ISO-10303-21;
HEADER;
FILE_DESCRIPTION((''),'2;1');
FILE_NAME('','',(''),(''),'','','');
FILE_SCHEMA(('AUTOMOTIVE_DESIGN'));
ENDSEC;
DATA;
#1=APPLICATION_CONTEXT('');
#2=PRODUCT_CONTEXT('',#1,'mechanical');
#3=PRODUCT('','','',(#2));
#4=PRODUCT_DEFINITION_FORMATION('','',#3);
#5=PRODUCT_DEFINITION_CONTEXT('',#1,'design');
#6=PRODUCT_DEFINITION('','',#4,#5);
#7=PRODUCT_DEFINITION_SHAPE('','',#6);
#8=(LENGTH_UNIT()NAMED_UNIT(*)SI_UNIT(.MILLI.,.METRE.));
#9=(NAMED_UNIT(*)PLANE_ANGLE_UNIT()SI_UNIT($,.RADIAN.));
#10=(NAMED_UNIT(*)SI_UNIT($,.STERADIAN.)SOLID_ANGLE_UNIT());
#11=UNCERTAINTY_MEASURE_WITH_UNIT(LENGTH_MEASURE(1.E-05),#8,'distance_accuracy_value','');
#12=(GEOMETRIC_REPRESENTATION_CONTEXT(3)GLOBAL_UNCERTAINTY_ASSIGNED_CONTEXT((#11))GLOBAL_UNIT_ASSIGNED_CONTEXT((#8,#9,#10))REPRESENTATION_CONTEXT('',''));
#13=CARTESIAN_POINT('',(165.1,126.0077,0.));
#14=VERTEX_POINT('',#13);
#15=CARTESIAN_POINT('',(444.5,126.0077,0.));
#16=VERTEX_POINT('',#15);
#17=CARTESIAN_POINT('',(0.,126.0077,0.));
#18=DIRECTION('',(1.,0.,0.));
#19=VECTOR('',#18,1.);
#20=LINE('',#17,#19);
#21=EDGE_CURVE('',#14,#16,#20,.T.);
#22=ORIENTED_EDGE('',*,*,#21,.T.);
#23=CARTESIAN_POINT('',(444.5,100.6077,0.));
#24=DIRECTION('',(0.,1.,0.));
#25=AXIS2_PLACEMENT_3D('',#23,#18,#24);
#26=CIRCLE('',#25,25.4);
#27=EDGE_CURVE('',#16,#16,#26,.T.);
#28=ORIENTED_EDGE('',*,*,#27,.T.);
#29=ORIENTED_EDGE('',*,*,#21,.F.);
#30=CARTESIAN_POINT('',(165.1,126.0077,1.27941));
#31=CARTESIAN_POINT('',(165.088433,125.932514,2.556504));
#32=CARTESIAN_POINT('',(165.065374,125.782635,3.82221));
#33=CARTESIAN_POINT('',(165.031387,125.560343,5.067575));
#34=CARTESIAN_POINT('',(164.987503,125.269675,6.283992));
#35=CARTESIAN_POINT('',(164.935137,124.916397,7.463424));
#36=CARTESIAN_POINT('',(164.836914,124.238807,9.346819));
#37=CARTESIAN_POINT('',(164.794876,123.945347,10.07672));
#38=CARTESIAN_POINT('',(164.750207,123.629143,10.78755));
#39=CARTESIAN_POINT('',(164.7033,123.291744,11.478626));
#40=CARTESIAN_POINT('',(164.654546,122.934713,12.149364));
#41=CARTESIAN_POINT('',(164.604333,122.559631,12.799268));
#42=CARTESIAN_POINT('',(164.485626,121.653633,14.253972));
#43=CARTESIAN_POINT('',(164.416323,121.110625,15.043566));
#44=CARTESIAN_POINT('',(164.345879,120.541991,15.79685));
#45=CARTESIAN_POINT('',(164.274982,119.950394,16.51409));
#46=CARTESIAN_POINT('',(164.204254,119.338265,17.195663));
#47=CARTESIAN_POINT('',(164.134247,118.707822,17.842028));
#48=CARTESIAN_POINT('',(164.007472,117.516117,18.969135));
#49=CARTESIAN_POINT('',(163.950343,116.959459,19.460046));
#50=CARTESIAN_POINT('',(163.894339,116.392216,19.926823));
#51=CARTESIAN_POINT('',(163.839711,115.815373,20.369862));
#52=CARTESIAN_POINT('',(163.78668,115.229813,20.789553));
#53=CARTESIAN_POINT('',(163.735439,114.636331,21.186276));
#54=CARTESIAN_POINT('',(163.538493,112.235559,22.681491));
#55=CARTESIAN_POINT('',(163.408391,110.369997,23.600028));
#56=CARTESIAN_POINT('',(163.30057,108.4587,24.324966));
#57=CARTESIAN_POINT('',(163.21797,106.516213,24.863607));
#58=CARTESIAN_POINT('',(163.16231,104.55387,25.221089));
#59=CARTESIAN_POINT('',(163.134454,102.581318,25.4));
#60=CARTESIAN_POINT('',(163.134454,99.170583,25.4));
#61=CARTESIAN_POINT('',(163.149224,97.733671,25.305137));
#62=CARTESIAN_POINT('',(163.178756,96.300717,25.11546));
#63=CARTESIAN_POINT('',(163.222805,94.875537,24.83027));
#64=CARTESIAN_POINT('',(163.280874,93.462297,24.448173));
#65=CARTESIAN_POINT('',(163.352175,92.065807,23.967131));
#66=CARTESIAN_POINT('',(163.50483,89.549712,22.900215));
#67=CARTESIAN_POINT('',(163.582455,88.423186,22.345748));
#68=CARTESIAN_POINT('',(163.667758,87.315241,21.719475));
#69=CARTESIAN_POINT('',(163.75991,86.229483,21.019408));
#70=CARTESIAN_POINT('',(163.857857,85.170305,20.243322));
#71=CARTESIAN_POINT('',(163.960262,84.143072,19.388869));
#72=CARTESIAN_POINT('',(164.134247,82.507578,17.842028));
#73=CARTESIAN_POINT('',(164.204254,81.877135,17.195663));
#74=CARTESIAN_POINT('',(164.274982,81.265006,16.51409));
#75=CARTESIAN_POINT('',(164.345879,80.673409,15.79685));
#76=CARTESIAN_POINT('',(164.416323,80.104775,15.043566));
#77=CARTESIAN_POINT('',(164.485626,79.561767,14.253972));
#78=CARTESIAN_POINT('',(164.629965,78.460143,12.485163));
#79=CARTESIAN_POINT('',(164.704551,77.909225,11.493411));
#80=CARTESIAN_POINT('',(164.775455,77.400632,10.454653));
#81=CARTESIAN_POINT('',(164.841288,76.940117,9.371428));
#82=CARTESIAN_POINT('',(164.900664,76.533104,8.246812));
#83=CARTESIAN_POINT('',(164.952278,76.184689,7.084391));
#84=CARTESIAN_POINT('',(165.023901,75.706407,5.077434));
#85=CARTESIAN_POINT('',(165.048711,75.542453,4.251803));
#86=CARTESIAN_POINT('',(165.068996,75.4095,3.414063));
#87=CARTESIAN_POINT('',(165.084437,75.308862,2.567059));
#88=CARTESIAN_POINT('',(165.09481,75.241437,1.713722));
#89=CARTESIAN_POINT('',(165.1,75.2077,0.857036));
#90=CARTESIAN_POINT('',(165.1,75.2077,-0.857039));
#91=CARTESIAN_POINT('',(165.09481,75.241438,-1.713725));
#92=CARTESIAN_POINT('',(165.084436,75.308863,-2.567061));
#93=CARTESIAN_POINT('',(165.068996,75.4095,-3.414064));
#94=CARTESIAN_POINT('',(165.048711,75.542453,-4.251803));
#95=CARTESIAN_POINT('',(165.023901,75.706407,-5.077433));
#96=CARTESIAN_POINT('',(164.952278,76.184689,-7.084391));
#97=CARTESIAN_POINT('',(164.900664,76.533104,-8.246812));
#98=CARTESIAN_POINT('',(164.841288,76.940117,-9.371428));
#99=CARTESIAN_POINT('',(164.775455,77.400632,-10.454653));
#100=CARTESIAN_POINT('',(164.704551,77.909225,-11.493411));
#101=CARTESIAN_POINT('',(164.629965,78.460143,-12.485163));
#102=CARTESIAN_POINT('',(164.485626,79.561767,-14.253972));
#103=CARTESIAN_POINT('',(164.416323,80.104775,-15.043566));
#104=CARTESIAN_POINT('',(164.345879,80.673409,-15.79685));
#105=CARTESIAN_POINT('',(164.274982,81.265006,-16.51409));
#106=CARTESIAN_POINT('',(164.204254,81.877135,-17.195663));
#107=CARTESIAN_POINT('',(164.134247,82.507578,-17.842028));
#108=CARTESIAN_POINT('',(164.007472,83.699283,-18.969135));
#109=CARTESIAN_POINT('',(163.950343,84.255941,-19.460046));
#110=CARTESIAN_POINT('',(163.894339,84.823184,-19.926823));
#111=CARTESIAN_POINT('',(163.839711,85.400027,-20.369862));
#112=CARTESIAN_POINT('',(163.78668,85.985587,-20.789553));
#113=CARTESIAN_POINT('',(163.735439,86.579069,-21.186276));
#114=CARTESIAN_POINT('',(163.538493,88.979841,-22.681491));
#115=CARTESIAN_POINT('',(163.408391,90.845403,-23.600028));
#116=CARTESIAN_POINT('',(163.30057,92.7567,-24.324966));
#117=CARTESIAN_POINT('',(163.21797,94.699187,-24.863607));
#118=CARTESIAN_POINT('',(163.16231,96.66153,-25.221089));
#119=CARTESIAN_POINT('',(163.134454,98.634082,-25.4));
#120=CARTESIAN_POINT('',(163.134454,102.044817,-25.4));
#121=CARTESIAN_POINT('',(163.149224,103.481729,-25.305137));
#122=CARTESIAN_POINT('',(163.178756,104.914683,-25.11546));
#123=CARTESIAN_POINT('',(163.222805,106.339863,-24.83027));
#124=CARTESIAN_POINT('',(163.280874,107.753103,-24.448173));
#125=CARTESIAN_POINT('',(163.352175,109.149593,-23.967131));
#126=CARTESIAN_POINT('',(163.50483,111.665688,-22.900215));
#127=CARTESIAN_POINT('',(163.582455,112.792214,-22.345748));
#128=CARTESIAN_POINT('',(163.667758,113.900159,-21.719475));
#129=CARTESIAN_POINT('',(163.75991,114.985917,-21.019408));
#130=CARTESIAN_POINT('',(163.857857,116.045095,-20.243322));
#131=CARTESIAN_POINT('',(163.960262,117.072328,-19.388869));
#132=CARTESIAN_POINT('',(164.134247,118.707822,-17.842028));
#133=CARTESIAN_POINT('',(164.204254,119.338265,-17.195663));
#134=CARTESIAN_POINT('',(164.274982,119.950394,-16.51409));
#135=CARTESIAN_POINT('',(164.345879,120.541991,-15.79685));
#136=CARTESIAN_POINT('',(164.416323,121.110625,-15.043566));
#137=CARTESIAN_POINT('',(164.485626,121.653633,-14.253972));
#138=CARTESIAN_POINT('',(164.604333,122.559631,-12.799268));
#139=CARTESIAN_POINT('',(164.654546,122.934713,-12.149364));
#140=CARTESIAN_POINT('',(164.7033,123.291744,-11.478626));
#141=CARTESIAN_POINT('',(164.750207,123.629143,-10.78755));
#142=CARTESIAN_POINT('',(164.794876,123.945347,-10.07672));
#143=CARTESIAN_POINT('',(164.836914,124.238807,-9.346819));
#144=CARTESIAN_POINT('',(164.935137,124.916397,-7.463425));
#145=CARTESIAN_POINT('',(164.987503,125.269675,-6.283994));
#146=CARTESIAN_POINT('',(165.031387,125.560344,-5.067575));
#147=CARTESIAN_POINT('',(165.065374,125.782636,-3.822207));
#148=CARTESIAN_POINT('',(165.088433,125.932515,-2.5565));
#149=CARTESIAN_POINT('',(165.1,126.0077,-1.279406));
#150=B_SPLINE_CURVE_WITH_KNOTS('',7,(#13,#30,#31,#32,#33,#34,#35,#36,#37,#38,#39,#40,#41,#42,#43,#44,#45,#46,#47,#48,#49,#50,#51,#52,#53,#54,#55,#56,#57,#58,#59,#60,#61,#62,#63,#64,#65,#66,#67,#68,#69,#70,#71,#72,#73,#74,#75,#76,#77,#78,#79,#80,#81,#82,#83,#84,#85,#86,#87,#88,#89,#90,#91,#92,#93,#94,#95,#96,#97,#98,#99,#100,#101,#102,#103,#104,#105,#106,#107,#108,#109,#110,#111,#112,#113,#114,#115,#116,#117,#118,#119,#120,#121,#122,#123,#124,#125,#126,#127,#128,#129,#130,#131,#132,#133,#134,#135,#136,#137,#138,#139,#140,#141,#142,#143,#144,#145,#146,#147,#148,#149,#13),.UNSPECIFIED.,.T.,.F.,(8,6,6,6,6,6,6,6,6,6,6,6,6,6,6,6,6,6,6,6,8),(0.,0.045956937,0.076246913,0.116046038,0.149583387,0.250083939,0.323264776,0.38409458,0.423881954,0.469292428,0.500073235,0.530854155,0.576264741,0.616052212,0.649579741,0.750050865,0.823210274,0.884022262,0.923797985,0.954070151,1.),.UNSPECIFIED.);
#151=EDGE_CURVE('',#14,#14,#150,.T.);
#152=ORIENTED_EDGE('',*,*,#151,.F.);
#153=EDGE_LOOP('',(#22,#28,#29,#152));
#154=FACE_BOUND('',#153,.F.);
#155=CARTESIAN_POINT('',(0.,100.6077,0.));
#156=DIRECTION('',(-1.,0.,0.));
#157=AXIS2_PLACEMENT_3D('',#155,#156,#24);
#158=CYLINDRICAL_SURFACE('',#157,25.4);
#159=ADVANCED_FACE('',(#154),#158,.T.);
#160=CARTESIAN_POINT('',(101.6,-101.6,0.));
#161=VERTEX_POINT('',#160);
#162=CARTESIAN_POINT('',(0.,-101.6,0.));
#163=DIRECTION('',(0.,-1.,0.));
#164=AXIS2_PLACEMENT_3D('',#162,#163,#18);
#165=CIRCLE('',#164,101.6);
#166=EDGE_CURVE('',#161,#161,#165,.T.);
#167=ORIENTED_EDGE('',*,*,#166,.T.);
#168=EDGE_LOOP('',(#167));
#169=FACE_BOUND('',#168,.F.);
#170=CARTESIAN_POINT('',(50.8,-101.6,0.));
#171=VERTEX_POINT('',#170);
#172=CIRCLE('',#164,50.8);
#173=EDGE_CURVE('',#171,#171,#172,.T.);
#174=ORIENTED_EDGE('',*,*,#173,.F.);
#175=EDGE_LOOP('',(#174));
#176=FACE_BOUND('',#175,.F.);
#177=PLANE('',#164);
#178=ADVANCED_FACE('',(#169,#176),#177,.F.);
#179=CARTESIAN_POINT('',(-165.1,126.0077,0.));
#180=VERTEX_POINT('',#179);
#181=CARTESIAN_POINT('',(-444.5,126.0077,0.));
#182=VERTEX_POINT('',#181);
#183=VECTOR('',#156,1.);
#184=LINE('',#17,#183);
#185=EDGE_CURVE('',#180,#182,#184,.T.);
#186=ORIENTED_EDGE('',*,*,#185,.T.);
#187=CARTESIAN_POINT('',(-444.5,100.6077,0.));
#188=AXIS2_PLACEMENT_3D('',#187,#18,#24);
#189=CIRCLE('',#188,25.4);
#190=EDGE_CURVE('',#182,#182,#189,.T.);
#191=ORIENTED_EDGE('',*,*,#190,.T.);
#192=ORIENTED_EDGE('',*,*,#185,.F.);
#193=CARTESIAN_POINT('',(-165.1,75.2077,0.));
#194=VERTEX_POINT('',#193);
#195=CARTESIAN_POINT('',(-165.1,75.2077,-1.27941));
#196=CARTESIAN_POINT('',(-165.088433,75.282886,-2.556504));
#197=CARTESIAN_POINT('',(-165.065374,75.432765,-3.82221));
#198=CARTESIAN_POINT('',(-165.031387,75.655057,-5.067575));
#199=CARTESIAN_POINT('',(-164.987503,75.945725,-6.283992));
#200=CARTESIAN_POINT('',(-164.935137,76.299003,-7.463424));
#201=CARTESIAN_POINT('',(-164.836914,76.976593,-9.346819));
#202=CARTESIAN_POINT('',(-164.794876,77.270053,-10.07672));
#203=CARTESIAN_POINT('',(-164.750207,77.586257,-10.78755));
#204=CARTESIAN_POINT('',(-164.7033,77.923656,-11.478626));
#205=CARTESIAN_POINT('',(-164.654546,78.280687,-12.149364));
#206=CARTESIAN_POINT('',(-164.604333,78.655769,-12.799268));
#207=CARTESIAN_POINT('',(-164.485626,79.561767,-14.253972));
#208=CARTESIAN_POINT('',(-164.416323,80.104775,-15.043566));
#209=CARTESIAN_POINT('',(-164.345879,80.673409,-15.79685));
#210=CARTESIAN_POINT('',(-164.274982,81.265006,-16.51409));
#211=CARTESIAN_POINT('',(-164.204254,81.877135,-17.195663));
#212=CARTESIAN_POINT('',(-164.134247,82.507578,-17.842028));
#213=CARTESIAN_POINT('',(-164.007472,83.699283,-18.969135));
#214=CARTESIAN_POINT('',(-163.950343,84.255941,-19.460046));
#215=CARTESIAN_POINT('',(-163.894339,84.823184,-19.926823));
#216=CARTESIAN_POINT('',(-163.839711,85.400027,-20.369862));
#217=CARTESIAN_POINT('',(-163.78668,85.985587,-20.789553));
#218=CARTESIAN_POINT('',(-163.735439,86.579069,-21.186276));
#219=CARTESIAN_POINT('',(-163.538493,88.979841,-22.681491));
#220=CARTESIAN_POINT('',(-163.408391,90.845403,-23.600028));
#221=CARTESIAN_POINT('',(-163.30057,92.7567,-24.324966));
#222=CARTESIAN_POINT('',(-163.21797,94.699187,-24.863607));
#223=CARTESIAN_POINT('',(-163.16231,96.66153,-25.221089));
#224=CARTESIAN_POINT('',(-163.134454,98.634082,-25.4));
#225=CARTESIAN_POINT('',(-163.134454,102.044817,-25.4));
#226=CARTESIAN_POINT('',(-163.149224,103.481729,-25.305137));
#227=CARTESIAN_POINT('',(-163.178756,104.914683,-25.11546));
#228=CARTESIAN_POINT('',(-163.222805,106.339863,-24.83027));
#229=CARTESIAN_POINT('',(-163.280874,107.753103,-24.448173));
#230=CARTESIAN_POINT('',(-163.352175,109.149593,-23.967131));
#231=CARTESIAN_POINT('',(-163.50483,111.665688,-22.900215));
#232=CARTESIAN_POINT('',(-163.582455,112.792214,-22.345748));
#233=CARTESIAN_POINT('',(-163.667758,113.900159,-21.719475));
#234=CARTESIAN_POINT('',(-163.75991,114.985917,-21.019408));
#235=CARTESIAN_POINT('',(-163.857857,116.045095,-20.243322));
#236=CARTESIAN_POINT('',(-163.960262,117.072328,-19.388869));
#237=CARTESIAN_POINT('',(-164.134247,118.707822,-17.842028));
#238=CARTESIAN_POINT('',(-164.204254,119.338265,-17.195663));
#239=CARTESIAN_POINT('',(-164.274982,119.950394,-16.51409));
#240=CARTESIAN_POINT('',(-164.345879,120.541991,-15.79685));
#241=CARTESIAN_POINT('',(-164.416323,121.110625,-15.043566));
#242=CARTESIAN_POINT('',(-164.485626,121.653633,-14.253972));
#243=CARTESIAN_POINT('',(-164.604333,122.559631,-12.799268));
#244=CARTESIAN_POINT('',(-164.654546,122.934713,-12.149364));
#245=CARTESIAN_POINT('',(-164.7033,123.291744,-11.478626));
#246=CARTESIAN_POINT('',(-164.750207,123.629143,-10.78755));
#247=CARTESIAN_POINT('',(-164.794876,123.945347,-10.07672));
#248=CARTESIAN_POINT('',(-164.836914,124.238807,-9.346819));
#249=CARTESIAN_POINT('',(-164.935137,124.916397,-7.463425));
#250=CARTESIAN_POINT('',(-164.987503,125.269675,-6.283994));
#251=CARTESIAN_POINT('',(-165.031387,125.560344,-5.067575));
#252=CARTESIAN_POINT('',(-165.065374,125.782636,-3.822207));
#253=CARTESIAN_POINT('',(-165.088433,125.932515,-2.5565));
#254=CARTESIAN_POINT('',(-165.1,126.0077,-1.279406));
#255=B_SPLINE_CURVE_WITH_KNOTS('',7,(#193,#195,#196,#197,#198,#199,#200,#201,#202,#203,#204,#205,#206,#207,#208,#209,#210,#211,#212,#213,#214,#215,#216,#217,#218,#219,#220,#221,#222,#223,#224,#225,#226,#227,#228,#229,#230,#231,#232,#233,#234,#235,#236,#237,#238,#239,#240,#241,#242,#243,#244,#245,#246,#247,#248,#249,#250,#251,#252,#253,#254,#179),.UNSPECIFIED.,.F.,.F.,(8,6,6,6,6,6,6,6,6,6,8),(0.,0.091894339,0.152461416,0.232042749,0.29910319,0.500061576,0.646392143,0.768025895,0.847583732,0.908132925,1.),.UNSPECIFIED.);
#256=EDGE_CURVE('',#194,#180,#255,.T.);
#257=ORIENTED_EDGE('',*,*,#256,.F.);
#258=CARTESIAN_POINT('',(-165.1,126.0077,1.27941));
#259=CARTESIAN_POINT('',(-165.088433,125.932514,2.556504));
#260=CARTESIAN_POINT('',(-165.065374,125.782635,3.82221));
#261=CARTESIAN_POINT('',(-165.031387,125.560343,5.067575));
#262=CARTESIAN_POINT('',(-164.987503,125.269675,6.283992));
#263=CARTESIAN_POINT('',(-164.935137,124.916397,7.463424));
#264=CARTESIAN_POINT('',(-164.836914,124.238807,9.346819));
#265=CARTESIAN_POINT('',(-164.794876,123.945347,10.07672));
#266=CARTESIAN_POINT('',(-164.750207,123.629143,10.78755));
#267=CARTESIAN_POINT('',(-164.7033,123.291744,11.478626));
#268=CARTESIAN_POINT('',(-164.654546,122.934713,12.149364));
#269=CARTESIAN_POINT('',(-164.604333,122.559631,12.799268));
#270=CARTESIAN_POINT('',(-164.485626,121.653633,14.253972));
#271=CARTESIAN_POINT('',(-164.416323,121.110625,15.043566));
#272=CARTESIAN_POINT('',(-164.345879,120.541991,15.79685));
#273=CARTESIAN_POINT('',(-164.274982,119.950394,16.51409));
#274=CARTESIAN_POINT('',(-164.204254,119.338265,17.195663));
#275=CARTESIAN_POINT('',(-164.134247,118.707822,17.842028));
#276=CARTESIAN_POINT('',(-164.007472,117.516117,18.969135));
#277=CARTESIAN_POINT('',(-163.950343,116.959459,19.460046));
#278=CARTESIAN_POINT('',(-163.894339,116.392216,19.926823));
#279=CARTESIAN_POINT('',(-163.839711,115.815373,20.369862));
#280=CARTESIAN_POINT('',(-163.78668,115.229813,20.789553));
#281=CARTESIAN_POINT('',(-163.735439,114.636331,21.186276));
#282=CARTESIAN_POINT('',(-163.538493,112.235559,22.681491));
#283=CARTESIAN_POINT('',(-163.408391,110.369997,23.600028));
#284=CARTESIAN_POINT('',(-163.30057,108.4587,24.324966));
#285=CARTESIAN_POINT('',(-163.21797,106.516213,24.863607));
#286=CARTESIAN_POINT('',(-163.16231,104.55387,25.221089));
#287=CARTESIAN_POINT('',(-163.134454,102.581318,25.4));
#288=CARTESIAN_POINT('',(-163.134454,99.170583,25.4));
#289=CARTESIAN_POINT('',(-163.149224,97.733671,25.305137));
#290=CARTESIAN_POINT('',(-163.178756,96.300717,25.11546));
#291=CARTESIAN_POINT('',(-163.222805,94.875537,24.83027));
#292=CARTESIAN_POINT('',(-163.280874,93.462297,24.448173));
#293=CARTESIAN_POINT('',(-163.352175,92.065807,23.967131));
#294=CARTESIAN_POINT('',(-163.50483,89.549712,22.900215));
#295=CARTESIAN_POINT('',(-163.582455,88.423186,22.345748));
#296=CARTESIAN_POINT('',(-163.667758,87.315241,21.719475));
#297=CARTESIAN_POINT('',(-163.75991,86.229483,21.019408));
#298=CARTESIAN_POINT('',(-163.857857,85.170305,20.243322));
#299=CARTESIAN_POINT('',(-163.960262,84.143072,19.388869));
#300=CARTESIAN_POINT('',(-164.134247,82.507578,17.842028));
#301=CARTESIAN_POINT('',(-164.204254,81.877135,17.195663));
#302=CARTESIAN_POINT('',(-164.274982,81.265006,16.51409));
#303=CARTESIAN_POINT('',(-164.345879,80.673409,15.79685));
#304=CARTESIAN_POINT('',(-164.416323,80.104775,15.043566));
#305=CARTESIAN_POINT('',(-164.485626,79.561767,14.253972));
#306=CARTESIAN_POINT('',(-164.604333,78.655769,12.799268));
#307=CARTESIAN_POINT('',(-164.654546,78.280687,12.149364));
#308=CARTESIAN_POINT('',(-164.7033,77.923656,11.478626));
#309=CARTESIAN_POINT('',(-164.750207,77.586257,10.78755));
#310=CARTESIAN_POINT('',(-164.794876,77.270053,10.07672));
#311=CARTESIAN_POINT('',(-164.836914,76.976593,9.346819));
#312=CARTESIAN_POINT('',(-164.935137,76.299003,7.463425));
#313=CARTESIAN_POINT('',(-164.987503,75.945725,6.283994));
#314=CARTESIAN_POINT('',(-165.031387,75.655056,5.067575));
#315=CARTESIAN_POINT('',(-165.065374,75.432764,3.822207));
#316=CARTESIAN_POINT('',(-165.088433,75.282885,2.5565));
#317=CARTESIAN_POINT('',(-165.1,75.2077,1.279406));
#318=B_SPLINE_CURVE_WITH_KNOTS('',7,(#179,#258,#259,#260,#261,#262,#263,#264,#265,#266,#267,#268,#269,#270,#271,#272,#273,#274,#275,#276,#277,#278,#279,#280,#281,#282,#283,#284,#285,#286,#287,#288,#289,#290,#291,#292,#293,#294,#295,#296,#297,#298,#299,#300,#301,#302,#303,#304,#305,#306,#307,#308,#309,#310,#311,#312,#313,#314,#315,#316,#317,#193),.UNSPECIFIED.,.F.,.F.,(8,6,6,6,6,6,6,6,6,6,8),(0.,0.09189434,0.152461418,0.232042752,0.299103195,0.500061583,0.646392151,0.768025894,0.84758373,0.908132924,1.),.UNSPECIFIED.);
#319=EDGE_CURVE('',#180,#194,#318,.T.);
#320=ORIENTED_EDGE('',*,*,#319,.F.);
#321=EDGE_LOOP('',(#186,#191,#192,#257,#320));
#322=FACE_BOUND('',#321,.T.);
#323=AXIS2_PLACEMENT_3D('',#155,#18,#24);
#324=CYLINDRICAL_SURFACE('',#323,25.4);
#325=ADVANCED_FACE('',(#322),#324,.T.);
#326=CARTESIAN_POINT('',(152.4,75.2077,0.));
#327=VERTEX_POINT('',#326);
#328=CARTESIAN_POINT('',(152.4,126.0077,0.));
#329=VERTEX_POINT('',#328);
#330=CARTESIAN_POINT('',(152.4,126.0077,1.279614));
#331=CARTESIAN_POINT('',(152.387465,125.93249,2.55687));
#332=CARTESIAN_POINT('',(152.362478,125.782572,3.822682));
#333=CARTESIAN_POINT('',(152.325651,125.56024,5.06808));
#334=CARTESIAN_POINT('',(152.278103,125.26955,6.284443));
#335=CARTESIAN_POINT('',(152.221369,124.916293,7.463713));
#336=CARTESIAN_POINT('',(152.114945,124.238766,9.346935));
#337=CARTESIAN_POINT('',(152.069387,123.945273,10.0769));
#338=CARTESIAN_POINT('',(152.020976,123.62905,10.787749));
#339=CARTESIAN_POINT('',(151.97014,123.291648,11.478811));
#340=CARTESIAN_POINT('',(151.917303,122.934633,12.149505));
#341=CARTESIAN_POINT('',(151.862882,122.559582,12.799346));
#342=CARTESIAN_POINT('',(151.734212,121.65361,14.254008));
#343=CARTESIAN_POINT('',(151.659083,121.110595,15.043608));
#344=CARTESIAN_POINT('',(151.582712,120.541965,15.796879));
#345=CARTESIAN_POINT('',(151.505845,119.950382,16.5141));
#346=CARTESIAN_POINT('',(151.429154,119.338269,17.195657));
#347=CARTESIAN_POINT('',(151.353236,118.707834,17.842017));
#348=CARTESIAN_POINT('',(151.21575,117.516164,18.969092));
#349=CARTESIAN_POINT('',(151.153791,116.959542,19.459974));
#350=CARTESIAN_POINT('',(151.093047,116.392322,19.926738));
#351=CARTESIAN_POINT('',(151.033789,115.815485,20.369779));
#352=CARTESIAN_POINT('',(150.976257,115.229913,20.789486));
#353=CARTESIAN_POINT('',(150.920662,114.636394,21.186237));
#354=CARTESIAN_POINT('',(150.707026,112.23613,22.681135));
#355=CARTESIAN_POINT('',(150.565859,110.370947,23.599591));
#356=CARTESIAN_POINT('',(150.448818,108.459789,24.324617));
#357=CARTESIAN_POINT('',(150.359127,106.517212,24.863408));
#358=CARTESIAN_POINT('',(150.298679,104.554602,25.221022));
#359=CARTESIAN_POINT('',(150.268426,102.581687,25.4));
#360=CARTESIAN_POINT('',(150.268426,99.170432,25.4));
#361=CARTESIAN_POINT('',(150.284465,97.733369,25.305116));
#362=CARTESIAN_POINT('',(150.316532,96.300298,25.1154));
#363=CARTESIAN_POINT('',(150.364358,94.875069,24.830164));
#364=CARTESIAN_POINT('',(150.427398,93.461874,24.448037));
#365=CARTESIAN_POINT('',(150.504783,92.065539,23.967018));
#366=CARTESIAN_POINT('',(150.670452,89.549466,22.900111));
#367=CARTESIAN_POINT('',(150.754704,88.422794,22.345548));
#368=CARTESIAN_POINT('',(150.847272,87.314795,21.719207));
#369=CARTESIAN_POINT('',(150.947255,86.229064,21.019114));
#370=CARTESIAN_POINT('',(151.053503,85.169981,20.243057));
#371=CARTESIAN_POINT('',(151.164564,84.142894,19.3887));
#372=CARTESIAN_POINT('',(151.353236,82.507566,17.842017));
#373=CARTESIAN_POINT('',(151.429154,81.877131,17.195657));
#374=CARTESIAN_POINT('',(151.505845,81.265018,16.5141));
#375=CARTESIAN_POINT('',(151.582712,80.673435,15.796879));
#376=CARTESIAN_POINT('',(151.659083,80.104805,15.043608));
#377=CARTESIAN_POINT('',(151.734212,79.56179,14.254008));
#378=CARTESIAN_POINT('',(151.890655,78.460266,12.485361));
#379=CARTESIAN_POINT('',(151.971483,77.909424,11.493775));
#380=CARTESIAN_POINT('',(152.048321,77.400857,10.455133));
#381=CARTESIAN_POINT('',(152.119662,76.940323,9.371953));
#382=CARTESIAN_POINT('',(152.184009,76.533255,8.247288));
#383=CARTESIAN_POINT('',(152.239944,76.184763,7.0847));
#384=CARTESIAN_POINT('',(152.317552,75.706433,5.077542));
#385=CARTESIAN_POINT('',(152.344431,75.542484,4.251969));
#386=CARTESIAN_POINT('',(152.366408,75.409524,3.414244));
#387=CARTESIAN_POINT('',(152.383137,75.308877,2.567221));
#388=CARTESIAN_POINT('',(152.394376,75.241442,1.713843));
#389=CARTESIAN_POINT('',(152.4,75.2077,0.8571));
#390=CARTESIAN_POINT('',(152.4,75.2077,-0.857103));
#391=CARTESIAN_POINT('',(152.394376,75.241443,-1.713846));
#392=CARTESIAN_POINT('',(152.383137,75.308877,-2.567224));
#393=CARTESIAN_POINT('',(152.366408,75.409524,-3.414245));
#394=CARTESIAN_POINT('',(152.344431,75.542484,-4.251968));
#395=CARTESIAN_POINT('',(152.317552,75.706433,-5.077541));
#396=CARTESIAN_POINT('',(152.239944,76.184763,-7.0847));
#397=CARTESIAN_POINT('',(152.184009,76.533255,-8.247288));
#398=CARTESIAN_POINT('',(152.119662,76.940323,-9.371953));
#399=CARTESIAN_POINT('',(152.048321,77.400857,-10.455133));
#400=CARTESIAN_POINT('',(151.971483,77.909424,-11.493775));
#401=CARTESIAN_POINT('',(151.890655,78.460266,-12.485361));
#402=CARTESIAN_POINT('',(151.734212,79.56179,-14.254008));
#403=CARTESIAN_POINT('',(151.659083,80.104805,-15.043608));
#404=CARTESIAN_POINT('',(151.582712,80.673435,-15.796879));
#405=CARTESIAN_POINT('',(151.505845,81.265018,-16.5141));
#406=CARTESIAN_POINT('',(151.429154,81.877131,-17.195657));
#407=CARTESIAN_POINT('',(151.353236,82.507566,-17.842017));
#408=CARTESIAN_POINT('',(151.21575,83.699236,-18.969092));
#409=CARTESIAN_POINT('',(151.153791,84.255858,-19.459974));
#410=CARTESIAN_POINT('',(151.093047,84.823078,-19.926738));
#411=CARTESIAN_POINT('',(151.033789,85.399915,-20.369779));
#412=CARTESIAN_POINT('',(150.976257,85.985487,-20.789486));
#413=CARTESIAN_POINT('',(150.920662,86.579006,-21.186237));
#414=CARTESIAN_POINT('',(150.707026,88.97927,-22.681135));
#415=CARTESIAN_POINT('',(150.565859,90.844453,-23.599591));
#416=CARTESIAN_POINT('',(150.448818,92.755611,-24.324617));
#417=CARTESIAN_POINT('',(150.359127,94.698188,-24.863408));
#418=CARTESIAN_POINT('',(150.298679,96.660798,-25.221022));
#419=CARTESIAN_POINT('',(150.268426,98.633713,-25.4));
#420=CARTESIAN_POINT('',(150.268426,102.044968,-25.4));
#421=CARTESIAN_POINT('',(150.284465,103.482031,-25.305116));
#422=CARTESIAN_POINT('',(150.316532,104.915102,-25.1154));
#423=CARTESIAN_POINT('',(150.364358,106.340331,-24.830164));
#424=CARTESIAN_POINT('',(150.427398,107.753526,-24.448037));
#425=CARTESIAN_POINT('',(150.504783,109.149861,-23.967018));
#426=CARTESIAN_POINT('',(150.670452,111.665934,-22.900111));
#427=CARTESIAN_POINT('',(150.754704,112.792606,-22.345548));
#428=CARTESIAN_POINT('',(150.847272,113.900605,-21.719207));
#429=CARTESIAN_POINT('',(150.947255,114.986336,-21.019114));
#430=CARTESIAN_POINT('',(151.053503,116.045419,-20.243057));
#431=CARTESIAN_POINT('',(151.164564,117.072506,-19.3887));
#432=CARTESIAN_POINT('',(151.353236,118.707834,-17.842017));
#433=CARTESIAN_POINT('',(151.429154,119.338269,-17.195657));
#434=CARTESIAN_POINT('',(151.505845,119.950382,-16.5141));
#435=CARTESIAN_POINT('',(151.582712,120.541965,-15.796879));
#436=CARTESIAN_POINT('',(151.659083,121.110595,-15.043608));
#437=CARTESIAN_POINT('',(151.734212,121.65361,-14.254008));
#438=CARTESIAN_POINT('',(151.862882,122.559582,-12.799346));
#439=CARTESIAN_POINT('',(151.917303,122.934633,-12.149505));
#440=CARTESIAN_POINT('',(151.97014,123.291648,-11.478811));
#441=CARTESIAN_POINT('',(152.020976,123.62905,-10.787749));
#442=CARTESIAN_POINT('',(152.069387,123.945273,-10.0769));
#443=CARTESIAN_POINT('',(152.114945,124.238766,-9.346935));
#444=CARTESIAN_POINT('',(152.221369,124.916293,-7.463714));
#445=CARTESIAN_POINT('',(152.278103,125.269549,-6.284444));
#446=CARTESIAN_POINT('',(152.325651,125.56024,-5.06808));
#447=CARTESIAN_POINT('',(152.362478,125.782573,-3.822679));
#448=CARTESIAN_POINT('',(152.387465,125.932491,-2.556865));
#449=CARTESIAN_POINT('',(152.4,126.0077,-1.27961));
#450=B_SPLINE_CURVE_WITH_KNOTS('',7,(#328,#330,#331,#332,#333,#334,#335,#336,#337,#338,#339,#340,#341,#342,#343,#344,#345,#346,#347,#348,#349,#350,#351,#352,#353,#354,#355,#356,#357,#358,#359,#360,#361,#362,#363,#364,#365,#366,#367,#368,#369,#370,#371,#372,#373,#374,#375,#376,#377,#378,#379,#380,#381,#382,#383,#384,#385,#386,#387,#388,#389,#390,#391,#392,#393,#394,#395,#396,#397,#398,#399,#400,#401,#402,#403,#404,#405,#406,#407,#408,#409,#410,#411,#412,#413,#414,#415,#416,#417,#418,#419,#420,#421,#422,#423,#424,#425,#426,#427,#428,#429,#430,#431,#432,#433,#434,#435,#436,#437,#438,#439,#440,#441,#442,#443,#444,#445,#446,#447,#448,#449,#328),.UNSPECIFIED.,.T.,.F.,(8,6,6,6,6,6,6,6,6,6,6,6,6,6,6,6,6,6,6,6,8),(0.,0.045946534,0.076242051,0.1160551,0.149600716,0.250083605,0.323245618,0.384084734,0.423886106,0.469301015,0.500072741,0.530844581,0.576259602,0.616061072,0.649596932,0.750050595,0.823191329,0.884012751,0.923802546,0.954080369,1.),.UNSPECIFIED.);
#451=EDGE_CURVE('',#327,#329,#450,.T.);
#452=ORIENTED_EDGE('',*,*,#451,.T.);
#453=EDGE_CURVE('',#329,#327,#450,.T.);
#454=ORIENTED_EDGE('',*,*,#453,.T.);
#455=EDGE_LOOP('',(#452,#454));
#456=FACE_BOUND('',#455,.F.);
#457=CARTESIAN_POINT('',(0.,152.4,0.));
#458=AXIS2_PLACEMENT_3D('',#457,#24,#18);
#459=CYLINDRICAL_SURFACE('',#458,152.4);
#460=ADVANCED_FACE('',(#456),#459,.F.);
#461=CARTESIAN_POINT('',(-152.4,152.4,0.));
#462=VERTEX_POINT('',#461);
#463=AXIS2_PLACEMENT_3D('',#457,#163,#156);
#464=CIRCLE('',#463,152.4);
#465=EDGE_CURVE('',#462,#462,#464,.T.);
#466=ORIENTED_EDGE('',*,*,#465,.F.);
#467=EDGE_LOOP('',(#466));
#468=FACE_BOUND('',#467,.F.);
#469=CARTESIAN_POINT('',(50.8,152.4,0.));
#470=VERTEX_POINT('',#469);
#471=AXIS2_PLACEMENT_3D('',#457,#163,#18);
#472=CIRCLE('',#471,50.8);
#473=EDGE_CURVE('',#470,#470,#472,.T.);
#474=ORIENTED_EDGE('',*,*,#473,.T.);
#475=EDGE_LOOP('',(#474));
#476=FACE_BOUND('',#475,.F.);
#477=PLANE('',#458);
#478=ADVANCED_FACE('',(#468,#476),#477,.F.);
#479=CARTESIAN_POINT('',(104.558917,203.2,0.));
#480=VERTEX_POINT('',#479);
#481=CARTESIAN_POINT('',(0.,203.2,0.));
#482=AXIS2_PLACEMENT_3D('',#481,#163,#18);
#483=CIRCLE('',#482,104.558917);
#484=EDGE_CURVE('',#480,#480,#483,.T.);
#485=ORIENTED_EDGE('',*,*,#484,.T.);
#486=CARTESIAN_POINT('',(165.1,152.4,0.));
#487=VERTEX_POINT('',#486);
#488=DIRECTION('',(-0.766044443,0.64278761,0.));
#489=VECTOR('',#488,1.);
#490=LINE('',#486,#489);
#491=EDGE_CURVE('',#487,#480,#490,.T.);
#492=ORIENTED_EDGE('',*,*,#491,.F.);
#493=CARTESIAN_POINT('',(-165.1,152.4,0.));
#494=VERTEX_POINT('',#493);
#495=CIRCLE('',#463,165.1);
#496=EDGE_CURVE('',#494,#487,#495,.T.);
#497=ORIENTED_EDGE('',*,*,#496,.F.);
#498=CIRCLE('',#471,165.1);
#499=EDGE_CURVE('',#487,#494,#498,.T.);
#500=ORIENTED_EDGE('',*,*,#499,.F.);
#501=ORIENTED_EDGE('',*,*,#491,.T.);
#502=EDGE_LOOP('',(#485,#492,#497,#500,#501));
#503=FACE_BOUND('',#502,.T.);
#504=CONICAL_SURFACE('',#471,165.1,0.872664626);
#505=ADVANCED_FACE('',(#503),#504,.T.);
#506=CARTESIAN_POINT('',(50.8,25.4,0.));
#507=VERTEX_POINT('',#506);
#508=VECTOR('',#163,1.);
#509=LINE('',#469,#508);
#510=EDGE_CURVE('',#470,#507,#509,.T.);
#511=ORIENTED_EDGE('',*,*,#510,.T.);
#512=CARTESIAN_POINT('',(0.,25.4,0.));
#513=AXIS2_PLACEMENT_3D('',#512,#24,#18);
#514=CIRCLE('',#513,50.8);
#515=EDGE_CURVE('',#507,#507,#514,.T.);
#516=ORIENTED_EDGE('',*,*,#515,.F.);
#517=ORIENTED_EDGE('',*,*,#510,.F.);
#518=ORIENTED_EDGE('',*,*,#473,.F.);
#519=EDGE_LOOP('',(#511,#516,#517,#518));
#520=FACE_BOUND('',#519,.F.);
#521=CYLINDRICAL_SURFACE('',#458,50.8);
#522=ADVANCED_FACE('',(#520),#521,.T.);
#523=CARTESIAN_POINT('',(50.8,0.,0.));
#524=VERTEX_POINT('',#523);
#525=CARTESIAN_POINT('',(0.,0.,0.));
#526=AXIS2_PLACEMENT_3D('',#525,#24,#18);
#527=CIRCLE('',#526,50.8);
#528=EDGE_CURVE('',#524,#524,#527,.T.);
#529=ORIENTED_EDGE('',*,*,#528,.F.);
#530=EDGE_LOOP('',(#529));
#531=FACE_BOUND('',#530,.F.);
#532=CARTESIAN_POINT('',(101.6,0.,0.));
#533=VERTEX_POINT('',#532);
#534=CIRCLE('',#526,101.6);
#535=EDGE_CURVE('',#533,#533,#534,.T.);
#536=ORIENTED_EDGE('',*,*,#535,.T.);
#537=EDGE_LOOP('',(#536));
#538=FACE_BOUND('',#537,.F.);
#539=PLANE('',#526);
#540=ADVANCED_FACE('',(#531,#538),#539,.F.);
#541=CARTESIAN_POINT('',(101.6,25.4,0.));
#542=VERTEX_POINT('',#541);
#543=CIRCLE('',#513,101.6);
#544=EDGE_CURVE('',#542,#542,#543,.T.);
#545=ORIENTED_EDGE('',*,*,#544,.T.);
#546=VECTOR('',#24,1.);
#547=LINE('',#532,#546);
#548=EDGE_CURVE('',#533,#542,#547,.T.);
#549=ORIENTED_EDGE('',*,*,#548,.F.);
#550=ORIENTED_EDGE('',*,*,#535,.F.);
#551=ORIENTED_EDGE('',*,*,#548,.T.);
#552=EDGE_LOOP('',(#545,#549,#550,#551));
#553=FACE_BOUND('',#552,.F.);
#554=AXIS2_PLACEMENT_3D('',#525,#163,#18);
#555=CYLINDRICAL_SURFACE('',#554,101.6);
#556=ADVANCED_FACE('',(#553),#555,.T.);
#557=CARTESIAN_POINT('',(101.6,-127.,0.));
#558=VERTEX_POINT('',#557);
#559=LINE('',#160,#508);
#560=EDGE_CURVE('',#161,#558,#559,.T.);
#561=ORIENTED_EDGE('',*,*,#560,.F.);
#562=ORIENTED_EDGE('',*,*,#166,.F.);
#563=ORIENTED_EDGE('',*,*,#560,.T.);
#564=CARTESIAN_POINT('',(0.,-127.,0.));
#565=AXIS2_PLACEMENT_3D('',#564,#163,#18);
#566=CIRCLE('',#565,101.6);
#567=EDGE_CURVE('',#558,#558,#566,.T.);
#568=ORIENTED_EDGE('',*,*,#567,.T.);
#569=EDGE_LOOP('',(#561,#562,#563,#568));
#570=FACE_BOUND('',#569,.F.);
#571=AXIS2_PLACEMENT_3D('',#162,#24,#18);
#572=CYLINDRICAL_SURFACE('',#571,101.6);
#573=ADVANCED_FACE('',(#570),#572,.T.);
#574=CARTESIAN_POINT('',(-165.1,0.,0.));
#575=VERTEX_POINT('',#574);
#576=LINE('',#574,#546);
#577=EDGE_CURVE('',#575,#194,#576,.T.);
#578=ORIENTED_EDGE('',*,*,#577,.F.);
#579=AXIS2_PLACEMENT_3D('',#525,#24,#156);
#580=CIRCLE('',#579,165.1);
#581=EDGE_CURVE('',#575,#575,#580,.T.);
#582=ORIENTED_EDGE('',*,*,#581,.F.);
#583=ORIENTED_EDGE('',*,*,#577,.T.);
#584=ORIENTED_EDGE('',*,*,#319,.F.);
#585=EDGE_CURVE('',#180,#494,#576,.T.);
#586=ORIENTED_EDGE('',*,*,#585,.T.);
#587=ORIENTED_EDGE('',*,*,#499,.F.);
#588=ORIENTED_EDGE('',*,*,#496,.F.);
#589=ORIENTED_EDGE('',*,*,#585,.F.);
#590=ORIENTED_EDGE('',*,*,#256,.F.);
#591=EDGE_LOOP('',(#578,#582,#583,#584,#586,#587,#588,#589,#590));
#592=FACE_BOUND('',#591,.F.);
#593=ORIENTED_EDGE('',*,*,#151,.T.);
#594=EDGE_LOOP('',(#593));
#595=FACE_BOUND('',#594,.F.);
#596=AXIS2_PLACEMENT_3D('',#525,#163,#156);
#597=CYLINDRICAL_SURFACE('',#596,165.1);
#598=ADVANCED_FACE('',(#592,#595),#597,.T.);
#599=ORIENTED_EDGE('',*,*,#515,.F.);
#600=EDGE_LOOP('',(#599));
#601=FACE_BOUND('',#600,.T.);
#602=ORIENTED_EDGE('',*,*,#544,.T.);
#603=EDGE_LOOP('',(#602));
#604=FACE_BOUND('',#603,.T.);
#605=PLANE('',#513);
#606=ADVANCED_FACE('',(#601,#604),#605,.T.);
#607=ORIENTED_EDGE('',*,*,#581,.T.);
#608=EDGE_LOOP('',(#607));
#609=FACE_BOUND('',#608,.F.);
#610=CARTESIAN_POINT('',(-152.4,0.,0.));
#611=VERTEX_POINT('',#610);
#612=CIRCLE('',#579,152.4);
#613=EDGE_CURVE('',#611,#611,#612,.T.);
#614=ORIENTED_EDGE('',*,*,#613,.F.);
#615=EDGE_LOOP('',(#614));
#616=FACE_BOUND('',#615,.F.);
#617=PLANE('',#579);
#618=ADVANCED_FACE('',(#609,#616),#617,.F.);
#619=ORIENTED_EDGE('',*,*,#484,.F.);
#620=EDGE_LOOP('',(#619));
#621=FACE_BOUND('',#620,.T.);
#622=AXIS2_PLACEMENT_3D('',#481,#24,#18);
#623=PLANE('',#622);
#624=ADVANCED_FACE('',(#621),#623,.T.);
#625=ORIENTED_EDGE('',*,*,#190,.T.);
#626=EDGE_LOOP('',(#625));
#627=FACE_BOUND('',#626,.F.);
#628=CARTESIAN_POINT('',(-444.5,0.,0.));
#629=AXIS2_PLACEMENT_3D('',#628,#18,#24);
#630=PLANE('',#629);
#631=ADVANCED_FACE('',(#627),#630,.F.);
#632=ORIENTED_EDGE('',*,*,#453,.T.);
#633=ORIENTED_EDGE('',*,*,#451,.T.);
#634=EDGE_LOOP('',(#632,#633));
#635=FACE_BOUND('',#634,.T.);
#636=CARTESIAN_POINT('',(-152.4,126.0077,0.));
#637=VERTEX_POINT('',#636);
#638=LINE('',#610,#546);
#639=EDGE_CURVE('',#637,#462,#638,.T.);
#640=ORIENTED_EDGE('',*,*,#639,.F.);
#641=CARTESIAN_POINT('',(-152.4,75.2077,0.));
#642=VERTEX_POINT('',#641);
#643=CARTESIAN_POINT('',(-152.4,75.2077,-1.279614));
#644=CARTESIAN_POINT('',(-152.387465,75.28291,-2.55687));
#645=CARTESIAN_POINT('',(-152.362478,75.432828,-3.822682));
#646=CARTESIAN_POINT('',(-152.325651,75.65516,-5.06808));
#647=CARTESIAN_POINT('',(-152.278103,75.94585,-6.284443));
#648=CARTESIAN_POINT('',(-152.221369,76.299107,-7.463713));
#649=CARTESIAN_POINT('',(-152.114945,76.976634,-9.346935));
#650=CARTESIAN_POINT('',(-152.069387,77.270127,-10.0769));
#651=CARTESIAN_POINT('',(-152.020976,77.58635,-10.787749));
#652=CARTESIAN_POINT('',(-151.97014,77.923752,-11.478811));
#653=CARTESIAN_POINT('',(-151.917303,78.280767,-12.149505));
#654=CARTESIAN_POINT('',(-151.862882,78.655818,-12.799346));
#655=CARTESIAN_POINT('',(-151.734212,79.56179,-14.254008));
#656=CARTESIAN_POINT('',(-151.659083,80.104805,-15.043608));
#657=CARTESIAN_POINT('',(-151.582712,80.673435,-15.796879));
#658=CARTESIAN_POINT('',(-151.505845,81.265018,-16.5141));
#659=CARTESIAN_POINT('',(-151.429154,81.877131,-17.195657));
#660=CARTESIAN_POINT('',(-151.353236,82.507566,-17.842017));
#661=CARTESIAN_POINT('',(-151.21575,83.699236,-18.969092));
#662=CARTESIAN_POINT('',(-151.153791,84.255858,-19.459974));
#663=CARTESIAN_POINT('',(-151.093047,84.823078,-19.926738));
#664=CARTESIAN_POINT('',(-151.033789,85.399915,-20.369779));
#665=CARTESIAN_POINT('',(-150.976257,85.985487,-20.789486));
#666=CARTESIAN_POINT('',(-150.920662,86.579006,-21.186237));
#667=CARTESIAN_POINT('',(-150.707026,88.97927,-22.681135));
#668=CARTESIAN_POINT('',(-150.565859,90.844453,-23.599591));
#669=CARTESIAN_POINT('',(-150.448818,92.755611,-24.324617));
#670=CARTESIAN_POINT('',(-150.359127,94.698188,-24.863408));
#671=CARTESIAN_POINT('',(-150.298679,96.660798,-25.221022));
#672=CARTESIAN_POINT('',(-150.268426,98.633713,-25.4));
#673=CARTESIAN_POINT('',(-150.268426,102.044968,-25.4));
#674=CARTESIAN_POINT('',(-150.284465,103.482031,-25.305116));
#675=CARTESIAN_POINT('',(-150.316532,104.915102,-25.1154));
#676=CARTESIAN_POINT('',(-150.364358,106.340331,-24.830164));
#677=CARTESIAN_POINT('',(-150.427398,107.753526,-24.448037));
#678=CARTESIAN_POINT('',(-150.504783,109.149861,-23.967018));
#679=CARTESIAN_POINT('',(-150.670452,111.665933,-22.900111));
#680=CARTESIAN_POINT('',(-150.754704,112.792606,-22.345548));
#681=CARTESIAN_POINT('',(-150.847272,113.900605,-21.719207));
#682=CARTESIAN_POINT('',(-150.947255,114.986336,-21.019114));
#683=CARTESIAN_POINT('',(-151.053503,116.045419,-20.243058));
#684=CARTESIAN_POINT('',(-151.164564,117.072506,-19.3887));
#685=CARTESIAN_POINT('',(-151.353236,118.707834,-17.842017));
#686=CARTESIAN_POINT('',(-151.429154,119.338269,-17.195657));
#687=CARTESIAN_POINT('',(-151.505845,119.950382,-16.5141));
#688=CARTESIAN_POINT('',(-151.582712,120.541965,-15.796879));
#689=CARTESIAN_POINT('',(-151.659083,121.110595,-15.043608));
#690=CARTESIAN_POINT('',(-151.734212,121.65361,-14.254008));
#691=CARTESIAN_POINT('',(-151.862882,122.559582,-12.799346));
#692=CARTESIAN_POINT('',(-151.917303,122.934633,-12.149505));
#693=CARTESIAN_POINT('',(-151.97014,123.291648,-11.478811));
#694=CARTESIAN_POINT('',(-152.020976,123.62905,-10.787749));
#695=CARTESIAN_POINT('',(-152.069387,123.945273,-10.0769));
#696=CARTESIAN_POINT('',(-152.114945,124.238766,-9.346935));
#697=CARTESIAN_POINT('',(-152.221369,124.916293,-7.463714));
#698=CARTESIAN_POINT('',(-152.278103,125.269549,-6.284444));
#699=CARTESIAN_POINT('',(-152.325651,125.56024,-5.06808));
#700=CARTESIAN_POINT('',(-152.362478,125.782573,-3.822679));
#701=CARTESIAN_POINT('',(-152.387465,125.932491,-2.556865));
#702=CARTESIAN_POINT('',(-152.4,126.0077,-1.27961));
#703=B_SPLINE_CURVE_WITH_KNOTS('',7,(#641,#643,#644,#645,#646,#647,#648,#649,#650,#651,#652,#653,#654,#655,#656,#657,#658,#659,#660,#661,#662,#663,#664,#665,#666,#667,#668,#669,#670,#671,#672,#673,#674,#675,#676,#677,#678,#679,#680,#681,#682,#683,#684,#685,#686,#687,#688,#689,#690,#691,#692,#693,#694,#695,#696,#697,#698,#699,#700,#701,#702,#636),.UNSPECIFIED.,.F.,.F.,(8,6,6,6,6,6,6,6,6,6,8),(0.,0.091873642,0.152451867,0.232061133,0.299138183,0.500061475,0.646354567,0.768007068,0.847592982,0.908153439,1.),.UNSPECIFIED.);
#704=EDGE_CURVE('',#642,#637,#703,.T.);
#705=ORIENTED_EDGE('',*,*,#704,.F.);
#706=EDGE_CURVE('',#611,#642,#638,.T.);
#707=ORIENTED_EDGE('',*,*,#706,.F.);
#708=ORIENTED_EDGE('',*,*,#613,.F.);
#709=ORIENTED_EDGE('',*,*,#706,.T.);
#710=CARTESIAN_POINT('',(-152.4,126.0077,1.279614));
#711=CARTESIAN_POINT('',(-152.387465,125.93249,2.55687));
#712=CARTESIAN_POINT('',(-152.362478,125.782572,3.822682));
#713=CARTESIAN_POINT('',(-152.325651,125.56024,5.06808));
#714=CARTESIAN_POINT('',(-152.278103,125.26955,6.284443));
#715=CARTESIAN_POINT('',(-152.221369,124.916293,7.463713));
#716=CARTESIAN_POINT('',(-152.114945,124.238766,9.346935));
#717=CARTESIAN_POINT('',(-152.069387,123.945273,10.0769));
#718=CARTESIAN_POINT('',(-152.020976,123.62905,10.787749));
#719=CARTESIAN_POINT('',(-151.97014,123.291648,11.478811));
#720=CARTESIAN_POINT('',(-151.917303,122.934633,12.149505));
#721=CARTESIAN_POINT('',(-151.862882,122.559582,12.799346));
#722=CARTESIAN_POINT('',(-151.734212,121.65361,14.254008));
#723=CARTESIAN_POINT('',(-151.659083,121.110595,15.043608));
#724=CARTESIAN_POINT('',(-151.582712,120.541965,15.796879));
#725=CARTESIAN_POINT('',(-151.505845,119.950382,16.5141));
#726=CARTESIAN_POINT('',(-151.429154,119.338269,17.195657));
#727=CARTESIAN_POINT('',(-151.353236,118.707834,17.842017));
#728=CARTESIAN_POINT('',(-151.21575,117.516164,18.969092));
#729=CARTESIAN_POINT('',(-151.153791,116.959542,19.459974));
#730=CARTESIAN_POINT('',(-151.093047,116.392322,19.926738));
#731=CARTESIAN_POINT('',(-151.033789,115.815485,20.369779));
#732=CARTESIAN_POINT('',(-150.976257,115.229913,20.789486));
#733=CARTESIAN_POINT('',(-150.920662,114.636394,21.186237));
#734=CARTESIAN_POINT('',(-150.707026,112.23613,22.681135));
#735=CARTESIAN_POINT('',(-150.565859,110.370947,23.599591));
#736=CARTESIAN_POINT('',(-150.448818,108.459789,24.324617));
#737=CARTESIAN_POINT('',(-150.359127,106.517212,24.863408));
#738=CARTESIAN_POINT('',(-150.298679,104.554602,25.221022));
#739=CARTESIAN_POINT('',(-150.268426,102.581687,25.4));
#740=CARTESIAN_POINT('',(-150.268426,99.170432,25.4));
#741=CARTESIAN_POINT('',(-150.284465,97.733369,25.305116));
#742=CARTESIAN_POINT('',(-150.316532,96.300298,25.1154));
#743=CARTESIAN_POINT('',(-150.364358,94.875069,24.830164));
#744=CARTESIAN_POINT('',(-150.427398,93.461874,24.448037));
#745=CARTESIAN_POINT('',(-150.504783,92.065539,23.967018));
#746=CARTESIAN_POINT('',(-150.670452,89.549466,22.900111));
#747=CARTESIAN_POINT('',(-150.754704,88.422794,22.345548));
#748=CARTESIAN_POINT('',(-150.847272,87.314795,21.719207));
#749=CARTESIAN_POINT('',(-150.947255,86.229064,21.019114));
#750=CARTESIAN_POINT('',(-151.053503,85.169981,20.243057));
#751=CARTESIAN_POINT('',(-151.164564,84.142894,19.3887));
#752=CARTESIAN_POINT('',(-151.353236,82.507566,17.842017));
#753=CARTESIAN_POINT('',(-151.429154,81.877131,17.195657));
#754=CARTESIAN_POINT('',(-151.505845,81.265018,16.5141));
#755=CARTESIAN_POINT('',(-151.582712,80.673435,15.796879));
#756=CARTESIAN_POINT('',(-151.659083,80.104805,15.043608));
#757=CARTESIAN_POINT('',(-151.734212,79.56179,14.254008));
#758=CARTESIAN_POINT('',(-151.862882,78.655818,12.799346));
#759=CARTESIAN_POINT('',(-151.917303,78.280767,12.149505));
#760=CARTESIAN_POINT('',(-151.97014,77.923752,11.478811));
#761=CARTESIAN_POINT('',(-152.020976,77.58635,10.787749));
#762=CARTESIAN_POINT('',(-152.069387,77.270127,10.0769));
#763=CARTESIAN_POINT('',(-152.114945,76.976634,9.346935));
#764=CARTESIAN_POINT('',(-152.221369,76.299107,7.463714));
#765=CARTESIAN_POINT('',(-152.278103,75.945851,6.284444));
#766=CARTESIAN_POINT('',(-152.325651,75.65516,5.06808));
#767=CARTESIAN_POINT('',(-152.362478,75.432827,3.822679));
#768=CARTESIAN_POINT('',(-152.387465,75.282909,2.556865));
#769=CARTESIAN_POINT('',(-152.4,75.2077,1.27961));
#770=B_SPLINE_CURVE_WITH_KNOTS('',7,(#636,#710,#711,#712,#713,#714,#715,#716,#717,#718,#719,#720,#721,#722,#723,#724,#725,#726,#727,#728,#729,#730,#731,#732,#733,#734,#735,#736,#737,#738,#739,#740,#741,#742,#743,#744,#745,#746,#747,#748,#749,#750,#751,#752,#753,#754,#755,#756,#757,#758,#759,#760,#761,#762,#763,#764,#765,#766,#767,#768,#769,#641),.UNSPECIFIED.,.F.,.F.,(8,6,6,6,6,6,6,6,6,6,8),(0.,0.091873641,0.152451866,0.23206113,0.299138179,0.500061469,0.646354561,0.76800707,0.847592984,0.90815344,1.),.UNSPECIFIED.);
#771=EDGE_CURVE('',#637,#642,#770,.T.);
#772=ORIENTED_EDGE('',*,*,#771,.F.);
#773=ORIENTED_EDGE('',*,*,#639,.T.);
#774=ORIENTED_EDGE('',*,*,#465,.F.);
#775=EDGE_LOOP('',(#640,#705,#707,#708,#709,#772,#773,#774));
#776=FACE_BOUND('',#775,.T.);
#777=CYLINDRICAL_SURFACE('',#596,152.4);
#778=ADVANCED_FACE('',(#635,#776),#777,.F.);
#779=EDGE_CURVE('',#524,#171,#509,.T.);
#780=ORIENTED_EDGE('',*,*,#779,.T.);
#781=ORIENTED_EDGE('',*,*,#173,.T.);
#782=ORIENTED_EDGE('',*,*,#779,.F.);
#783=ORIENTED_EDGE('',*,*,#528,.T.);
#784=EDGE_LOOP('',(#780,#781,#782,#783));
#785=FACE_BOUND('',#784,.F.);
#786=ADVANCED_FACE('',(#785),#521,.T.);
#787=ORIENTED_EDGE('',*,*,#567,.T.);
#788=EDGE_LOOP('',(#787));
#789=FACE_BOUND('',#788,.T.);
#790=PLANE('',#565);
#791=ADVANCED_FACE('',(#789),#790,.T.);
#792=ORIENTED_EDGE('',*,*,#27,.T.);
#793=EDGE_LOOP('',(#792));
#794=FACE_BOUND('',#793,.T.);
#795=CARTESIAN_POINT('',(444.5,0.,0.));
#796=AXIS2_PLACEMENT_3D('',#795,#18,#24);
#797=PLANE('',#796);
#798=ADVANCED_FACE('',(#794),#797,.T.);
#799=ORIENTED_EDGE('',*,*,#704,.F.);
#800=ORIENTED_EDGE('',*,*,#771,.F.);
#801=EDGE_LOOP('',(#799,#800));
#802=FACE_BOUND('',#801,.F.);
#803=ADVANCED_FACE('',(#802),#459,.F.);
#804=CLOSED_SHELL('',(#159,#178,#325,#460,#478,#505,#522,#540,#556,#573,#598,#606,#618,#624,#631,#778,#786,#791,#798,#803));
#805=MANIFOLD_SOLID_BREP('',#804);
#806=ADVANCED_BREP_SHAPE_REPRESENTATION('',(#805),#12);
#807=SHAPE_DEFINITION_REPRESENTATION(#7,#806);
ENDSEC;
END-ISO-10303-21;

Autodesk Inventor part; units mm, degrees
ref_plane "YZ Plane" through (0, 0, 0) normal (1, 0, 0) x (0, 1, 0)
ref_plane "XZ Plane" through (0, 0, 0) normal (0, 1, 0) x (-1, 0, 0)
ref_plane "XY Plane" through (0, 0, 0) normal (0, 0, 1) x (1, 0, 0)
sketch "Sketch1" plane through (0, 0, 0) normal (0, 1, 0) x (-1, 0, 0)
  circle A0 centre (0, 0) radius 152.4
  circle A1 centre (0, 0) radius 165.1
  dimension "d0" = 304.8
  dimension "d1" = 330.2
extrude "Extrusion1" add sketch "Sketch1" along normal blind 152.4
sketch "Sketch2" plane through (0, 0, 0) normal (1, 0, 0) x (0, 1, 0)
  circle A0 centre (100.6077, 0) radius 25.4
  point P0 (0, 0)
  dimension "d4" = 50.8
extrude "Extrusion2" add sketch "Sketch2" along normal mid plane 889
sketch "Sketch4" plane through (0, 152.4, 0) normal (0, 1, 0) x (1, 0, 0)
  circle A0 centre (0, 0) radius 152.4
extrude "Extrusion4" cut sketch "Sketch4" against normal through all
sketch "Sketch5" plane through (0, 152.4, 0) normal (0, 1, 0) x (1, 0, 0)
  circle A0 centre (0, 0) radius 165.1
extrude "Extrusion5" add sketch "Sketch5" along normal blind 50.8 draft -50
sketch "Sketch6" plane through (0, 152.4, 0) normal (0, -1, 0) x (1, 0, 0)
  circle A0 centre (0, 0) radius 104.5589 projected
  circle A1 centre (0, 0) radius 50.8
  dimension "d15" = 101.6
extrude "Extrusion6" add sketch "Sketch6" along normal blind 254 contours A1
sketch "Sketch7" plane through (0, -101.6, 0) normal (0, -1, 0) x (1, 0, 0)
  circle A0 centre (0, 0) radius 104.5589 projected
  circle A1 centre (0, 0) radius 101.6
  dimension "d18" = 203.2
extrude "Extrusion7" add sketch "Sketch7" along normal blind 25.4 contours A1
ref_plane "Work Plane1" through (0, 0, 0) normal (0, 1, 0) x (1, 0, 0)
sketch "Sketch8" plane through (0, 0, 0) normal (0, 1, 0) x (1, 0, 0)
  circle A0 centre (0, 0) radius 101.6
  dimension "d22" = 203.2
extrude "Extrusion8" add sketch "Sketch8" along normal blind 25.4
ref_plane "Work Plane2" through (75.376, -18.8821, -44.9646) normal (1, 0, 0) x (0, 1, 0)
sketch "Sketch9" plane through (75.376, -18.8821, -44.9646) normal (1, 0, 0) x (0, 1, 0)
  circle A0 centre (-604.603, 44.9646) radius 12.7
  point P0 (18.8821, 44.9646)
  dimension "d25" = 25.4
extrude "Extrusion9" cut sketch "Sketch9" against normal through all
properties part number "capistan upper"
